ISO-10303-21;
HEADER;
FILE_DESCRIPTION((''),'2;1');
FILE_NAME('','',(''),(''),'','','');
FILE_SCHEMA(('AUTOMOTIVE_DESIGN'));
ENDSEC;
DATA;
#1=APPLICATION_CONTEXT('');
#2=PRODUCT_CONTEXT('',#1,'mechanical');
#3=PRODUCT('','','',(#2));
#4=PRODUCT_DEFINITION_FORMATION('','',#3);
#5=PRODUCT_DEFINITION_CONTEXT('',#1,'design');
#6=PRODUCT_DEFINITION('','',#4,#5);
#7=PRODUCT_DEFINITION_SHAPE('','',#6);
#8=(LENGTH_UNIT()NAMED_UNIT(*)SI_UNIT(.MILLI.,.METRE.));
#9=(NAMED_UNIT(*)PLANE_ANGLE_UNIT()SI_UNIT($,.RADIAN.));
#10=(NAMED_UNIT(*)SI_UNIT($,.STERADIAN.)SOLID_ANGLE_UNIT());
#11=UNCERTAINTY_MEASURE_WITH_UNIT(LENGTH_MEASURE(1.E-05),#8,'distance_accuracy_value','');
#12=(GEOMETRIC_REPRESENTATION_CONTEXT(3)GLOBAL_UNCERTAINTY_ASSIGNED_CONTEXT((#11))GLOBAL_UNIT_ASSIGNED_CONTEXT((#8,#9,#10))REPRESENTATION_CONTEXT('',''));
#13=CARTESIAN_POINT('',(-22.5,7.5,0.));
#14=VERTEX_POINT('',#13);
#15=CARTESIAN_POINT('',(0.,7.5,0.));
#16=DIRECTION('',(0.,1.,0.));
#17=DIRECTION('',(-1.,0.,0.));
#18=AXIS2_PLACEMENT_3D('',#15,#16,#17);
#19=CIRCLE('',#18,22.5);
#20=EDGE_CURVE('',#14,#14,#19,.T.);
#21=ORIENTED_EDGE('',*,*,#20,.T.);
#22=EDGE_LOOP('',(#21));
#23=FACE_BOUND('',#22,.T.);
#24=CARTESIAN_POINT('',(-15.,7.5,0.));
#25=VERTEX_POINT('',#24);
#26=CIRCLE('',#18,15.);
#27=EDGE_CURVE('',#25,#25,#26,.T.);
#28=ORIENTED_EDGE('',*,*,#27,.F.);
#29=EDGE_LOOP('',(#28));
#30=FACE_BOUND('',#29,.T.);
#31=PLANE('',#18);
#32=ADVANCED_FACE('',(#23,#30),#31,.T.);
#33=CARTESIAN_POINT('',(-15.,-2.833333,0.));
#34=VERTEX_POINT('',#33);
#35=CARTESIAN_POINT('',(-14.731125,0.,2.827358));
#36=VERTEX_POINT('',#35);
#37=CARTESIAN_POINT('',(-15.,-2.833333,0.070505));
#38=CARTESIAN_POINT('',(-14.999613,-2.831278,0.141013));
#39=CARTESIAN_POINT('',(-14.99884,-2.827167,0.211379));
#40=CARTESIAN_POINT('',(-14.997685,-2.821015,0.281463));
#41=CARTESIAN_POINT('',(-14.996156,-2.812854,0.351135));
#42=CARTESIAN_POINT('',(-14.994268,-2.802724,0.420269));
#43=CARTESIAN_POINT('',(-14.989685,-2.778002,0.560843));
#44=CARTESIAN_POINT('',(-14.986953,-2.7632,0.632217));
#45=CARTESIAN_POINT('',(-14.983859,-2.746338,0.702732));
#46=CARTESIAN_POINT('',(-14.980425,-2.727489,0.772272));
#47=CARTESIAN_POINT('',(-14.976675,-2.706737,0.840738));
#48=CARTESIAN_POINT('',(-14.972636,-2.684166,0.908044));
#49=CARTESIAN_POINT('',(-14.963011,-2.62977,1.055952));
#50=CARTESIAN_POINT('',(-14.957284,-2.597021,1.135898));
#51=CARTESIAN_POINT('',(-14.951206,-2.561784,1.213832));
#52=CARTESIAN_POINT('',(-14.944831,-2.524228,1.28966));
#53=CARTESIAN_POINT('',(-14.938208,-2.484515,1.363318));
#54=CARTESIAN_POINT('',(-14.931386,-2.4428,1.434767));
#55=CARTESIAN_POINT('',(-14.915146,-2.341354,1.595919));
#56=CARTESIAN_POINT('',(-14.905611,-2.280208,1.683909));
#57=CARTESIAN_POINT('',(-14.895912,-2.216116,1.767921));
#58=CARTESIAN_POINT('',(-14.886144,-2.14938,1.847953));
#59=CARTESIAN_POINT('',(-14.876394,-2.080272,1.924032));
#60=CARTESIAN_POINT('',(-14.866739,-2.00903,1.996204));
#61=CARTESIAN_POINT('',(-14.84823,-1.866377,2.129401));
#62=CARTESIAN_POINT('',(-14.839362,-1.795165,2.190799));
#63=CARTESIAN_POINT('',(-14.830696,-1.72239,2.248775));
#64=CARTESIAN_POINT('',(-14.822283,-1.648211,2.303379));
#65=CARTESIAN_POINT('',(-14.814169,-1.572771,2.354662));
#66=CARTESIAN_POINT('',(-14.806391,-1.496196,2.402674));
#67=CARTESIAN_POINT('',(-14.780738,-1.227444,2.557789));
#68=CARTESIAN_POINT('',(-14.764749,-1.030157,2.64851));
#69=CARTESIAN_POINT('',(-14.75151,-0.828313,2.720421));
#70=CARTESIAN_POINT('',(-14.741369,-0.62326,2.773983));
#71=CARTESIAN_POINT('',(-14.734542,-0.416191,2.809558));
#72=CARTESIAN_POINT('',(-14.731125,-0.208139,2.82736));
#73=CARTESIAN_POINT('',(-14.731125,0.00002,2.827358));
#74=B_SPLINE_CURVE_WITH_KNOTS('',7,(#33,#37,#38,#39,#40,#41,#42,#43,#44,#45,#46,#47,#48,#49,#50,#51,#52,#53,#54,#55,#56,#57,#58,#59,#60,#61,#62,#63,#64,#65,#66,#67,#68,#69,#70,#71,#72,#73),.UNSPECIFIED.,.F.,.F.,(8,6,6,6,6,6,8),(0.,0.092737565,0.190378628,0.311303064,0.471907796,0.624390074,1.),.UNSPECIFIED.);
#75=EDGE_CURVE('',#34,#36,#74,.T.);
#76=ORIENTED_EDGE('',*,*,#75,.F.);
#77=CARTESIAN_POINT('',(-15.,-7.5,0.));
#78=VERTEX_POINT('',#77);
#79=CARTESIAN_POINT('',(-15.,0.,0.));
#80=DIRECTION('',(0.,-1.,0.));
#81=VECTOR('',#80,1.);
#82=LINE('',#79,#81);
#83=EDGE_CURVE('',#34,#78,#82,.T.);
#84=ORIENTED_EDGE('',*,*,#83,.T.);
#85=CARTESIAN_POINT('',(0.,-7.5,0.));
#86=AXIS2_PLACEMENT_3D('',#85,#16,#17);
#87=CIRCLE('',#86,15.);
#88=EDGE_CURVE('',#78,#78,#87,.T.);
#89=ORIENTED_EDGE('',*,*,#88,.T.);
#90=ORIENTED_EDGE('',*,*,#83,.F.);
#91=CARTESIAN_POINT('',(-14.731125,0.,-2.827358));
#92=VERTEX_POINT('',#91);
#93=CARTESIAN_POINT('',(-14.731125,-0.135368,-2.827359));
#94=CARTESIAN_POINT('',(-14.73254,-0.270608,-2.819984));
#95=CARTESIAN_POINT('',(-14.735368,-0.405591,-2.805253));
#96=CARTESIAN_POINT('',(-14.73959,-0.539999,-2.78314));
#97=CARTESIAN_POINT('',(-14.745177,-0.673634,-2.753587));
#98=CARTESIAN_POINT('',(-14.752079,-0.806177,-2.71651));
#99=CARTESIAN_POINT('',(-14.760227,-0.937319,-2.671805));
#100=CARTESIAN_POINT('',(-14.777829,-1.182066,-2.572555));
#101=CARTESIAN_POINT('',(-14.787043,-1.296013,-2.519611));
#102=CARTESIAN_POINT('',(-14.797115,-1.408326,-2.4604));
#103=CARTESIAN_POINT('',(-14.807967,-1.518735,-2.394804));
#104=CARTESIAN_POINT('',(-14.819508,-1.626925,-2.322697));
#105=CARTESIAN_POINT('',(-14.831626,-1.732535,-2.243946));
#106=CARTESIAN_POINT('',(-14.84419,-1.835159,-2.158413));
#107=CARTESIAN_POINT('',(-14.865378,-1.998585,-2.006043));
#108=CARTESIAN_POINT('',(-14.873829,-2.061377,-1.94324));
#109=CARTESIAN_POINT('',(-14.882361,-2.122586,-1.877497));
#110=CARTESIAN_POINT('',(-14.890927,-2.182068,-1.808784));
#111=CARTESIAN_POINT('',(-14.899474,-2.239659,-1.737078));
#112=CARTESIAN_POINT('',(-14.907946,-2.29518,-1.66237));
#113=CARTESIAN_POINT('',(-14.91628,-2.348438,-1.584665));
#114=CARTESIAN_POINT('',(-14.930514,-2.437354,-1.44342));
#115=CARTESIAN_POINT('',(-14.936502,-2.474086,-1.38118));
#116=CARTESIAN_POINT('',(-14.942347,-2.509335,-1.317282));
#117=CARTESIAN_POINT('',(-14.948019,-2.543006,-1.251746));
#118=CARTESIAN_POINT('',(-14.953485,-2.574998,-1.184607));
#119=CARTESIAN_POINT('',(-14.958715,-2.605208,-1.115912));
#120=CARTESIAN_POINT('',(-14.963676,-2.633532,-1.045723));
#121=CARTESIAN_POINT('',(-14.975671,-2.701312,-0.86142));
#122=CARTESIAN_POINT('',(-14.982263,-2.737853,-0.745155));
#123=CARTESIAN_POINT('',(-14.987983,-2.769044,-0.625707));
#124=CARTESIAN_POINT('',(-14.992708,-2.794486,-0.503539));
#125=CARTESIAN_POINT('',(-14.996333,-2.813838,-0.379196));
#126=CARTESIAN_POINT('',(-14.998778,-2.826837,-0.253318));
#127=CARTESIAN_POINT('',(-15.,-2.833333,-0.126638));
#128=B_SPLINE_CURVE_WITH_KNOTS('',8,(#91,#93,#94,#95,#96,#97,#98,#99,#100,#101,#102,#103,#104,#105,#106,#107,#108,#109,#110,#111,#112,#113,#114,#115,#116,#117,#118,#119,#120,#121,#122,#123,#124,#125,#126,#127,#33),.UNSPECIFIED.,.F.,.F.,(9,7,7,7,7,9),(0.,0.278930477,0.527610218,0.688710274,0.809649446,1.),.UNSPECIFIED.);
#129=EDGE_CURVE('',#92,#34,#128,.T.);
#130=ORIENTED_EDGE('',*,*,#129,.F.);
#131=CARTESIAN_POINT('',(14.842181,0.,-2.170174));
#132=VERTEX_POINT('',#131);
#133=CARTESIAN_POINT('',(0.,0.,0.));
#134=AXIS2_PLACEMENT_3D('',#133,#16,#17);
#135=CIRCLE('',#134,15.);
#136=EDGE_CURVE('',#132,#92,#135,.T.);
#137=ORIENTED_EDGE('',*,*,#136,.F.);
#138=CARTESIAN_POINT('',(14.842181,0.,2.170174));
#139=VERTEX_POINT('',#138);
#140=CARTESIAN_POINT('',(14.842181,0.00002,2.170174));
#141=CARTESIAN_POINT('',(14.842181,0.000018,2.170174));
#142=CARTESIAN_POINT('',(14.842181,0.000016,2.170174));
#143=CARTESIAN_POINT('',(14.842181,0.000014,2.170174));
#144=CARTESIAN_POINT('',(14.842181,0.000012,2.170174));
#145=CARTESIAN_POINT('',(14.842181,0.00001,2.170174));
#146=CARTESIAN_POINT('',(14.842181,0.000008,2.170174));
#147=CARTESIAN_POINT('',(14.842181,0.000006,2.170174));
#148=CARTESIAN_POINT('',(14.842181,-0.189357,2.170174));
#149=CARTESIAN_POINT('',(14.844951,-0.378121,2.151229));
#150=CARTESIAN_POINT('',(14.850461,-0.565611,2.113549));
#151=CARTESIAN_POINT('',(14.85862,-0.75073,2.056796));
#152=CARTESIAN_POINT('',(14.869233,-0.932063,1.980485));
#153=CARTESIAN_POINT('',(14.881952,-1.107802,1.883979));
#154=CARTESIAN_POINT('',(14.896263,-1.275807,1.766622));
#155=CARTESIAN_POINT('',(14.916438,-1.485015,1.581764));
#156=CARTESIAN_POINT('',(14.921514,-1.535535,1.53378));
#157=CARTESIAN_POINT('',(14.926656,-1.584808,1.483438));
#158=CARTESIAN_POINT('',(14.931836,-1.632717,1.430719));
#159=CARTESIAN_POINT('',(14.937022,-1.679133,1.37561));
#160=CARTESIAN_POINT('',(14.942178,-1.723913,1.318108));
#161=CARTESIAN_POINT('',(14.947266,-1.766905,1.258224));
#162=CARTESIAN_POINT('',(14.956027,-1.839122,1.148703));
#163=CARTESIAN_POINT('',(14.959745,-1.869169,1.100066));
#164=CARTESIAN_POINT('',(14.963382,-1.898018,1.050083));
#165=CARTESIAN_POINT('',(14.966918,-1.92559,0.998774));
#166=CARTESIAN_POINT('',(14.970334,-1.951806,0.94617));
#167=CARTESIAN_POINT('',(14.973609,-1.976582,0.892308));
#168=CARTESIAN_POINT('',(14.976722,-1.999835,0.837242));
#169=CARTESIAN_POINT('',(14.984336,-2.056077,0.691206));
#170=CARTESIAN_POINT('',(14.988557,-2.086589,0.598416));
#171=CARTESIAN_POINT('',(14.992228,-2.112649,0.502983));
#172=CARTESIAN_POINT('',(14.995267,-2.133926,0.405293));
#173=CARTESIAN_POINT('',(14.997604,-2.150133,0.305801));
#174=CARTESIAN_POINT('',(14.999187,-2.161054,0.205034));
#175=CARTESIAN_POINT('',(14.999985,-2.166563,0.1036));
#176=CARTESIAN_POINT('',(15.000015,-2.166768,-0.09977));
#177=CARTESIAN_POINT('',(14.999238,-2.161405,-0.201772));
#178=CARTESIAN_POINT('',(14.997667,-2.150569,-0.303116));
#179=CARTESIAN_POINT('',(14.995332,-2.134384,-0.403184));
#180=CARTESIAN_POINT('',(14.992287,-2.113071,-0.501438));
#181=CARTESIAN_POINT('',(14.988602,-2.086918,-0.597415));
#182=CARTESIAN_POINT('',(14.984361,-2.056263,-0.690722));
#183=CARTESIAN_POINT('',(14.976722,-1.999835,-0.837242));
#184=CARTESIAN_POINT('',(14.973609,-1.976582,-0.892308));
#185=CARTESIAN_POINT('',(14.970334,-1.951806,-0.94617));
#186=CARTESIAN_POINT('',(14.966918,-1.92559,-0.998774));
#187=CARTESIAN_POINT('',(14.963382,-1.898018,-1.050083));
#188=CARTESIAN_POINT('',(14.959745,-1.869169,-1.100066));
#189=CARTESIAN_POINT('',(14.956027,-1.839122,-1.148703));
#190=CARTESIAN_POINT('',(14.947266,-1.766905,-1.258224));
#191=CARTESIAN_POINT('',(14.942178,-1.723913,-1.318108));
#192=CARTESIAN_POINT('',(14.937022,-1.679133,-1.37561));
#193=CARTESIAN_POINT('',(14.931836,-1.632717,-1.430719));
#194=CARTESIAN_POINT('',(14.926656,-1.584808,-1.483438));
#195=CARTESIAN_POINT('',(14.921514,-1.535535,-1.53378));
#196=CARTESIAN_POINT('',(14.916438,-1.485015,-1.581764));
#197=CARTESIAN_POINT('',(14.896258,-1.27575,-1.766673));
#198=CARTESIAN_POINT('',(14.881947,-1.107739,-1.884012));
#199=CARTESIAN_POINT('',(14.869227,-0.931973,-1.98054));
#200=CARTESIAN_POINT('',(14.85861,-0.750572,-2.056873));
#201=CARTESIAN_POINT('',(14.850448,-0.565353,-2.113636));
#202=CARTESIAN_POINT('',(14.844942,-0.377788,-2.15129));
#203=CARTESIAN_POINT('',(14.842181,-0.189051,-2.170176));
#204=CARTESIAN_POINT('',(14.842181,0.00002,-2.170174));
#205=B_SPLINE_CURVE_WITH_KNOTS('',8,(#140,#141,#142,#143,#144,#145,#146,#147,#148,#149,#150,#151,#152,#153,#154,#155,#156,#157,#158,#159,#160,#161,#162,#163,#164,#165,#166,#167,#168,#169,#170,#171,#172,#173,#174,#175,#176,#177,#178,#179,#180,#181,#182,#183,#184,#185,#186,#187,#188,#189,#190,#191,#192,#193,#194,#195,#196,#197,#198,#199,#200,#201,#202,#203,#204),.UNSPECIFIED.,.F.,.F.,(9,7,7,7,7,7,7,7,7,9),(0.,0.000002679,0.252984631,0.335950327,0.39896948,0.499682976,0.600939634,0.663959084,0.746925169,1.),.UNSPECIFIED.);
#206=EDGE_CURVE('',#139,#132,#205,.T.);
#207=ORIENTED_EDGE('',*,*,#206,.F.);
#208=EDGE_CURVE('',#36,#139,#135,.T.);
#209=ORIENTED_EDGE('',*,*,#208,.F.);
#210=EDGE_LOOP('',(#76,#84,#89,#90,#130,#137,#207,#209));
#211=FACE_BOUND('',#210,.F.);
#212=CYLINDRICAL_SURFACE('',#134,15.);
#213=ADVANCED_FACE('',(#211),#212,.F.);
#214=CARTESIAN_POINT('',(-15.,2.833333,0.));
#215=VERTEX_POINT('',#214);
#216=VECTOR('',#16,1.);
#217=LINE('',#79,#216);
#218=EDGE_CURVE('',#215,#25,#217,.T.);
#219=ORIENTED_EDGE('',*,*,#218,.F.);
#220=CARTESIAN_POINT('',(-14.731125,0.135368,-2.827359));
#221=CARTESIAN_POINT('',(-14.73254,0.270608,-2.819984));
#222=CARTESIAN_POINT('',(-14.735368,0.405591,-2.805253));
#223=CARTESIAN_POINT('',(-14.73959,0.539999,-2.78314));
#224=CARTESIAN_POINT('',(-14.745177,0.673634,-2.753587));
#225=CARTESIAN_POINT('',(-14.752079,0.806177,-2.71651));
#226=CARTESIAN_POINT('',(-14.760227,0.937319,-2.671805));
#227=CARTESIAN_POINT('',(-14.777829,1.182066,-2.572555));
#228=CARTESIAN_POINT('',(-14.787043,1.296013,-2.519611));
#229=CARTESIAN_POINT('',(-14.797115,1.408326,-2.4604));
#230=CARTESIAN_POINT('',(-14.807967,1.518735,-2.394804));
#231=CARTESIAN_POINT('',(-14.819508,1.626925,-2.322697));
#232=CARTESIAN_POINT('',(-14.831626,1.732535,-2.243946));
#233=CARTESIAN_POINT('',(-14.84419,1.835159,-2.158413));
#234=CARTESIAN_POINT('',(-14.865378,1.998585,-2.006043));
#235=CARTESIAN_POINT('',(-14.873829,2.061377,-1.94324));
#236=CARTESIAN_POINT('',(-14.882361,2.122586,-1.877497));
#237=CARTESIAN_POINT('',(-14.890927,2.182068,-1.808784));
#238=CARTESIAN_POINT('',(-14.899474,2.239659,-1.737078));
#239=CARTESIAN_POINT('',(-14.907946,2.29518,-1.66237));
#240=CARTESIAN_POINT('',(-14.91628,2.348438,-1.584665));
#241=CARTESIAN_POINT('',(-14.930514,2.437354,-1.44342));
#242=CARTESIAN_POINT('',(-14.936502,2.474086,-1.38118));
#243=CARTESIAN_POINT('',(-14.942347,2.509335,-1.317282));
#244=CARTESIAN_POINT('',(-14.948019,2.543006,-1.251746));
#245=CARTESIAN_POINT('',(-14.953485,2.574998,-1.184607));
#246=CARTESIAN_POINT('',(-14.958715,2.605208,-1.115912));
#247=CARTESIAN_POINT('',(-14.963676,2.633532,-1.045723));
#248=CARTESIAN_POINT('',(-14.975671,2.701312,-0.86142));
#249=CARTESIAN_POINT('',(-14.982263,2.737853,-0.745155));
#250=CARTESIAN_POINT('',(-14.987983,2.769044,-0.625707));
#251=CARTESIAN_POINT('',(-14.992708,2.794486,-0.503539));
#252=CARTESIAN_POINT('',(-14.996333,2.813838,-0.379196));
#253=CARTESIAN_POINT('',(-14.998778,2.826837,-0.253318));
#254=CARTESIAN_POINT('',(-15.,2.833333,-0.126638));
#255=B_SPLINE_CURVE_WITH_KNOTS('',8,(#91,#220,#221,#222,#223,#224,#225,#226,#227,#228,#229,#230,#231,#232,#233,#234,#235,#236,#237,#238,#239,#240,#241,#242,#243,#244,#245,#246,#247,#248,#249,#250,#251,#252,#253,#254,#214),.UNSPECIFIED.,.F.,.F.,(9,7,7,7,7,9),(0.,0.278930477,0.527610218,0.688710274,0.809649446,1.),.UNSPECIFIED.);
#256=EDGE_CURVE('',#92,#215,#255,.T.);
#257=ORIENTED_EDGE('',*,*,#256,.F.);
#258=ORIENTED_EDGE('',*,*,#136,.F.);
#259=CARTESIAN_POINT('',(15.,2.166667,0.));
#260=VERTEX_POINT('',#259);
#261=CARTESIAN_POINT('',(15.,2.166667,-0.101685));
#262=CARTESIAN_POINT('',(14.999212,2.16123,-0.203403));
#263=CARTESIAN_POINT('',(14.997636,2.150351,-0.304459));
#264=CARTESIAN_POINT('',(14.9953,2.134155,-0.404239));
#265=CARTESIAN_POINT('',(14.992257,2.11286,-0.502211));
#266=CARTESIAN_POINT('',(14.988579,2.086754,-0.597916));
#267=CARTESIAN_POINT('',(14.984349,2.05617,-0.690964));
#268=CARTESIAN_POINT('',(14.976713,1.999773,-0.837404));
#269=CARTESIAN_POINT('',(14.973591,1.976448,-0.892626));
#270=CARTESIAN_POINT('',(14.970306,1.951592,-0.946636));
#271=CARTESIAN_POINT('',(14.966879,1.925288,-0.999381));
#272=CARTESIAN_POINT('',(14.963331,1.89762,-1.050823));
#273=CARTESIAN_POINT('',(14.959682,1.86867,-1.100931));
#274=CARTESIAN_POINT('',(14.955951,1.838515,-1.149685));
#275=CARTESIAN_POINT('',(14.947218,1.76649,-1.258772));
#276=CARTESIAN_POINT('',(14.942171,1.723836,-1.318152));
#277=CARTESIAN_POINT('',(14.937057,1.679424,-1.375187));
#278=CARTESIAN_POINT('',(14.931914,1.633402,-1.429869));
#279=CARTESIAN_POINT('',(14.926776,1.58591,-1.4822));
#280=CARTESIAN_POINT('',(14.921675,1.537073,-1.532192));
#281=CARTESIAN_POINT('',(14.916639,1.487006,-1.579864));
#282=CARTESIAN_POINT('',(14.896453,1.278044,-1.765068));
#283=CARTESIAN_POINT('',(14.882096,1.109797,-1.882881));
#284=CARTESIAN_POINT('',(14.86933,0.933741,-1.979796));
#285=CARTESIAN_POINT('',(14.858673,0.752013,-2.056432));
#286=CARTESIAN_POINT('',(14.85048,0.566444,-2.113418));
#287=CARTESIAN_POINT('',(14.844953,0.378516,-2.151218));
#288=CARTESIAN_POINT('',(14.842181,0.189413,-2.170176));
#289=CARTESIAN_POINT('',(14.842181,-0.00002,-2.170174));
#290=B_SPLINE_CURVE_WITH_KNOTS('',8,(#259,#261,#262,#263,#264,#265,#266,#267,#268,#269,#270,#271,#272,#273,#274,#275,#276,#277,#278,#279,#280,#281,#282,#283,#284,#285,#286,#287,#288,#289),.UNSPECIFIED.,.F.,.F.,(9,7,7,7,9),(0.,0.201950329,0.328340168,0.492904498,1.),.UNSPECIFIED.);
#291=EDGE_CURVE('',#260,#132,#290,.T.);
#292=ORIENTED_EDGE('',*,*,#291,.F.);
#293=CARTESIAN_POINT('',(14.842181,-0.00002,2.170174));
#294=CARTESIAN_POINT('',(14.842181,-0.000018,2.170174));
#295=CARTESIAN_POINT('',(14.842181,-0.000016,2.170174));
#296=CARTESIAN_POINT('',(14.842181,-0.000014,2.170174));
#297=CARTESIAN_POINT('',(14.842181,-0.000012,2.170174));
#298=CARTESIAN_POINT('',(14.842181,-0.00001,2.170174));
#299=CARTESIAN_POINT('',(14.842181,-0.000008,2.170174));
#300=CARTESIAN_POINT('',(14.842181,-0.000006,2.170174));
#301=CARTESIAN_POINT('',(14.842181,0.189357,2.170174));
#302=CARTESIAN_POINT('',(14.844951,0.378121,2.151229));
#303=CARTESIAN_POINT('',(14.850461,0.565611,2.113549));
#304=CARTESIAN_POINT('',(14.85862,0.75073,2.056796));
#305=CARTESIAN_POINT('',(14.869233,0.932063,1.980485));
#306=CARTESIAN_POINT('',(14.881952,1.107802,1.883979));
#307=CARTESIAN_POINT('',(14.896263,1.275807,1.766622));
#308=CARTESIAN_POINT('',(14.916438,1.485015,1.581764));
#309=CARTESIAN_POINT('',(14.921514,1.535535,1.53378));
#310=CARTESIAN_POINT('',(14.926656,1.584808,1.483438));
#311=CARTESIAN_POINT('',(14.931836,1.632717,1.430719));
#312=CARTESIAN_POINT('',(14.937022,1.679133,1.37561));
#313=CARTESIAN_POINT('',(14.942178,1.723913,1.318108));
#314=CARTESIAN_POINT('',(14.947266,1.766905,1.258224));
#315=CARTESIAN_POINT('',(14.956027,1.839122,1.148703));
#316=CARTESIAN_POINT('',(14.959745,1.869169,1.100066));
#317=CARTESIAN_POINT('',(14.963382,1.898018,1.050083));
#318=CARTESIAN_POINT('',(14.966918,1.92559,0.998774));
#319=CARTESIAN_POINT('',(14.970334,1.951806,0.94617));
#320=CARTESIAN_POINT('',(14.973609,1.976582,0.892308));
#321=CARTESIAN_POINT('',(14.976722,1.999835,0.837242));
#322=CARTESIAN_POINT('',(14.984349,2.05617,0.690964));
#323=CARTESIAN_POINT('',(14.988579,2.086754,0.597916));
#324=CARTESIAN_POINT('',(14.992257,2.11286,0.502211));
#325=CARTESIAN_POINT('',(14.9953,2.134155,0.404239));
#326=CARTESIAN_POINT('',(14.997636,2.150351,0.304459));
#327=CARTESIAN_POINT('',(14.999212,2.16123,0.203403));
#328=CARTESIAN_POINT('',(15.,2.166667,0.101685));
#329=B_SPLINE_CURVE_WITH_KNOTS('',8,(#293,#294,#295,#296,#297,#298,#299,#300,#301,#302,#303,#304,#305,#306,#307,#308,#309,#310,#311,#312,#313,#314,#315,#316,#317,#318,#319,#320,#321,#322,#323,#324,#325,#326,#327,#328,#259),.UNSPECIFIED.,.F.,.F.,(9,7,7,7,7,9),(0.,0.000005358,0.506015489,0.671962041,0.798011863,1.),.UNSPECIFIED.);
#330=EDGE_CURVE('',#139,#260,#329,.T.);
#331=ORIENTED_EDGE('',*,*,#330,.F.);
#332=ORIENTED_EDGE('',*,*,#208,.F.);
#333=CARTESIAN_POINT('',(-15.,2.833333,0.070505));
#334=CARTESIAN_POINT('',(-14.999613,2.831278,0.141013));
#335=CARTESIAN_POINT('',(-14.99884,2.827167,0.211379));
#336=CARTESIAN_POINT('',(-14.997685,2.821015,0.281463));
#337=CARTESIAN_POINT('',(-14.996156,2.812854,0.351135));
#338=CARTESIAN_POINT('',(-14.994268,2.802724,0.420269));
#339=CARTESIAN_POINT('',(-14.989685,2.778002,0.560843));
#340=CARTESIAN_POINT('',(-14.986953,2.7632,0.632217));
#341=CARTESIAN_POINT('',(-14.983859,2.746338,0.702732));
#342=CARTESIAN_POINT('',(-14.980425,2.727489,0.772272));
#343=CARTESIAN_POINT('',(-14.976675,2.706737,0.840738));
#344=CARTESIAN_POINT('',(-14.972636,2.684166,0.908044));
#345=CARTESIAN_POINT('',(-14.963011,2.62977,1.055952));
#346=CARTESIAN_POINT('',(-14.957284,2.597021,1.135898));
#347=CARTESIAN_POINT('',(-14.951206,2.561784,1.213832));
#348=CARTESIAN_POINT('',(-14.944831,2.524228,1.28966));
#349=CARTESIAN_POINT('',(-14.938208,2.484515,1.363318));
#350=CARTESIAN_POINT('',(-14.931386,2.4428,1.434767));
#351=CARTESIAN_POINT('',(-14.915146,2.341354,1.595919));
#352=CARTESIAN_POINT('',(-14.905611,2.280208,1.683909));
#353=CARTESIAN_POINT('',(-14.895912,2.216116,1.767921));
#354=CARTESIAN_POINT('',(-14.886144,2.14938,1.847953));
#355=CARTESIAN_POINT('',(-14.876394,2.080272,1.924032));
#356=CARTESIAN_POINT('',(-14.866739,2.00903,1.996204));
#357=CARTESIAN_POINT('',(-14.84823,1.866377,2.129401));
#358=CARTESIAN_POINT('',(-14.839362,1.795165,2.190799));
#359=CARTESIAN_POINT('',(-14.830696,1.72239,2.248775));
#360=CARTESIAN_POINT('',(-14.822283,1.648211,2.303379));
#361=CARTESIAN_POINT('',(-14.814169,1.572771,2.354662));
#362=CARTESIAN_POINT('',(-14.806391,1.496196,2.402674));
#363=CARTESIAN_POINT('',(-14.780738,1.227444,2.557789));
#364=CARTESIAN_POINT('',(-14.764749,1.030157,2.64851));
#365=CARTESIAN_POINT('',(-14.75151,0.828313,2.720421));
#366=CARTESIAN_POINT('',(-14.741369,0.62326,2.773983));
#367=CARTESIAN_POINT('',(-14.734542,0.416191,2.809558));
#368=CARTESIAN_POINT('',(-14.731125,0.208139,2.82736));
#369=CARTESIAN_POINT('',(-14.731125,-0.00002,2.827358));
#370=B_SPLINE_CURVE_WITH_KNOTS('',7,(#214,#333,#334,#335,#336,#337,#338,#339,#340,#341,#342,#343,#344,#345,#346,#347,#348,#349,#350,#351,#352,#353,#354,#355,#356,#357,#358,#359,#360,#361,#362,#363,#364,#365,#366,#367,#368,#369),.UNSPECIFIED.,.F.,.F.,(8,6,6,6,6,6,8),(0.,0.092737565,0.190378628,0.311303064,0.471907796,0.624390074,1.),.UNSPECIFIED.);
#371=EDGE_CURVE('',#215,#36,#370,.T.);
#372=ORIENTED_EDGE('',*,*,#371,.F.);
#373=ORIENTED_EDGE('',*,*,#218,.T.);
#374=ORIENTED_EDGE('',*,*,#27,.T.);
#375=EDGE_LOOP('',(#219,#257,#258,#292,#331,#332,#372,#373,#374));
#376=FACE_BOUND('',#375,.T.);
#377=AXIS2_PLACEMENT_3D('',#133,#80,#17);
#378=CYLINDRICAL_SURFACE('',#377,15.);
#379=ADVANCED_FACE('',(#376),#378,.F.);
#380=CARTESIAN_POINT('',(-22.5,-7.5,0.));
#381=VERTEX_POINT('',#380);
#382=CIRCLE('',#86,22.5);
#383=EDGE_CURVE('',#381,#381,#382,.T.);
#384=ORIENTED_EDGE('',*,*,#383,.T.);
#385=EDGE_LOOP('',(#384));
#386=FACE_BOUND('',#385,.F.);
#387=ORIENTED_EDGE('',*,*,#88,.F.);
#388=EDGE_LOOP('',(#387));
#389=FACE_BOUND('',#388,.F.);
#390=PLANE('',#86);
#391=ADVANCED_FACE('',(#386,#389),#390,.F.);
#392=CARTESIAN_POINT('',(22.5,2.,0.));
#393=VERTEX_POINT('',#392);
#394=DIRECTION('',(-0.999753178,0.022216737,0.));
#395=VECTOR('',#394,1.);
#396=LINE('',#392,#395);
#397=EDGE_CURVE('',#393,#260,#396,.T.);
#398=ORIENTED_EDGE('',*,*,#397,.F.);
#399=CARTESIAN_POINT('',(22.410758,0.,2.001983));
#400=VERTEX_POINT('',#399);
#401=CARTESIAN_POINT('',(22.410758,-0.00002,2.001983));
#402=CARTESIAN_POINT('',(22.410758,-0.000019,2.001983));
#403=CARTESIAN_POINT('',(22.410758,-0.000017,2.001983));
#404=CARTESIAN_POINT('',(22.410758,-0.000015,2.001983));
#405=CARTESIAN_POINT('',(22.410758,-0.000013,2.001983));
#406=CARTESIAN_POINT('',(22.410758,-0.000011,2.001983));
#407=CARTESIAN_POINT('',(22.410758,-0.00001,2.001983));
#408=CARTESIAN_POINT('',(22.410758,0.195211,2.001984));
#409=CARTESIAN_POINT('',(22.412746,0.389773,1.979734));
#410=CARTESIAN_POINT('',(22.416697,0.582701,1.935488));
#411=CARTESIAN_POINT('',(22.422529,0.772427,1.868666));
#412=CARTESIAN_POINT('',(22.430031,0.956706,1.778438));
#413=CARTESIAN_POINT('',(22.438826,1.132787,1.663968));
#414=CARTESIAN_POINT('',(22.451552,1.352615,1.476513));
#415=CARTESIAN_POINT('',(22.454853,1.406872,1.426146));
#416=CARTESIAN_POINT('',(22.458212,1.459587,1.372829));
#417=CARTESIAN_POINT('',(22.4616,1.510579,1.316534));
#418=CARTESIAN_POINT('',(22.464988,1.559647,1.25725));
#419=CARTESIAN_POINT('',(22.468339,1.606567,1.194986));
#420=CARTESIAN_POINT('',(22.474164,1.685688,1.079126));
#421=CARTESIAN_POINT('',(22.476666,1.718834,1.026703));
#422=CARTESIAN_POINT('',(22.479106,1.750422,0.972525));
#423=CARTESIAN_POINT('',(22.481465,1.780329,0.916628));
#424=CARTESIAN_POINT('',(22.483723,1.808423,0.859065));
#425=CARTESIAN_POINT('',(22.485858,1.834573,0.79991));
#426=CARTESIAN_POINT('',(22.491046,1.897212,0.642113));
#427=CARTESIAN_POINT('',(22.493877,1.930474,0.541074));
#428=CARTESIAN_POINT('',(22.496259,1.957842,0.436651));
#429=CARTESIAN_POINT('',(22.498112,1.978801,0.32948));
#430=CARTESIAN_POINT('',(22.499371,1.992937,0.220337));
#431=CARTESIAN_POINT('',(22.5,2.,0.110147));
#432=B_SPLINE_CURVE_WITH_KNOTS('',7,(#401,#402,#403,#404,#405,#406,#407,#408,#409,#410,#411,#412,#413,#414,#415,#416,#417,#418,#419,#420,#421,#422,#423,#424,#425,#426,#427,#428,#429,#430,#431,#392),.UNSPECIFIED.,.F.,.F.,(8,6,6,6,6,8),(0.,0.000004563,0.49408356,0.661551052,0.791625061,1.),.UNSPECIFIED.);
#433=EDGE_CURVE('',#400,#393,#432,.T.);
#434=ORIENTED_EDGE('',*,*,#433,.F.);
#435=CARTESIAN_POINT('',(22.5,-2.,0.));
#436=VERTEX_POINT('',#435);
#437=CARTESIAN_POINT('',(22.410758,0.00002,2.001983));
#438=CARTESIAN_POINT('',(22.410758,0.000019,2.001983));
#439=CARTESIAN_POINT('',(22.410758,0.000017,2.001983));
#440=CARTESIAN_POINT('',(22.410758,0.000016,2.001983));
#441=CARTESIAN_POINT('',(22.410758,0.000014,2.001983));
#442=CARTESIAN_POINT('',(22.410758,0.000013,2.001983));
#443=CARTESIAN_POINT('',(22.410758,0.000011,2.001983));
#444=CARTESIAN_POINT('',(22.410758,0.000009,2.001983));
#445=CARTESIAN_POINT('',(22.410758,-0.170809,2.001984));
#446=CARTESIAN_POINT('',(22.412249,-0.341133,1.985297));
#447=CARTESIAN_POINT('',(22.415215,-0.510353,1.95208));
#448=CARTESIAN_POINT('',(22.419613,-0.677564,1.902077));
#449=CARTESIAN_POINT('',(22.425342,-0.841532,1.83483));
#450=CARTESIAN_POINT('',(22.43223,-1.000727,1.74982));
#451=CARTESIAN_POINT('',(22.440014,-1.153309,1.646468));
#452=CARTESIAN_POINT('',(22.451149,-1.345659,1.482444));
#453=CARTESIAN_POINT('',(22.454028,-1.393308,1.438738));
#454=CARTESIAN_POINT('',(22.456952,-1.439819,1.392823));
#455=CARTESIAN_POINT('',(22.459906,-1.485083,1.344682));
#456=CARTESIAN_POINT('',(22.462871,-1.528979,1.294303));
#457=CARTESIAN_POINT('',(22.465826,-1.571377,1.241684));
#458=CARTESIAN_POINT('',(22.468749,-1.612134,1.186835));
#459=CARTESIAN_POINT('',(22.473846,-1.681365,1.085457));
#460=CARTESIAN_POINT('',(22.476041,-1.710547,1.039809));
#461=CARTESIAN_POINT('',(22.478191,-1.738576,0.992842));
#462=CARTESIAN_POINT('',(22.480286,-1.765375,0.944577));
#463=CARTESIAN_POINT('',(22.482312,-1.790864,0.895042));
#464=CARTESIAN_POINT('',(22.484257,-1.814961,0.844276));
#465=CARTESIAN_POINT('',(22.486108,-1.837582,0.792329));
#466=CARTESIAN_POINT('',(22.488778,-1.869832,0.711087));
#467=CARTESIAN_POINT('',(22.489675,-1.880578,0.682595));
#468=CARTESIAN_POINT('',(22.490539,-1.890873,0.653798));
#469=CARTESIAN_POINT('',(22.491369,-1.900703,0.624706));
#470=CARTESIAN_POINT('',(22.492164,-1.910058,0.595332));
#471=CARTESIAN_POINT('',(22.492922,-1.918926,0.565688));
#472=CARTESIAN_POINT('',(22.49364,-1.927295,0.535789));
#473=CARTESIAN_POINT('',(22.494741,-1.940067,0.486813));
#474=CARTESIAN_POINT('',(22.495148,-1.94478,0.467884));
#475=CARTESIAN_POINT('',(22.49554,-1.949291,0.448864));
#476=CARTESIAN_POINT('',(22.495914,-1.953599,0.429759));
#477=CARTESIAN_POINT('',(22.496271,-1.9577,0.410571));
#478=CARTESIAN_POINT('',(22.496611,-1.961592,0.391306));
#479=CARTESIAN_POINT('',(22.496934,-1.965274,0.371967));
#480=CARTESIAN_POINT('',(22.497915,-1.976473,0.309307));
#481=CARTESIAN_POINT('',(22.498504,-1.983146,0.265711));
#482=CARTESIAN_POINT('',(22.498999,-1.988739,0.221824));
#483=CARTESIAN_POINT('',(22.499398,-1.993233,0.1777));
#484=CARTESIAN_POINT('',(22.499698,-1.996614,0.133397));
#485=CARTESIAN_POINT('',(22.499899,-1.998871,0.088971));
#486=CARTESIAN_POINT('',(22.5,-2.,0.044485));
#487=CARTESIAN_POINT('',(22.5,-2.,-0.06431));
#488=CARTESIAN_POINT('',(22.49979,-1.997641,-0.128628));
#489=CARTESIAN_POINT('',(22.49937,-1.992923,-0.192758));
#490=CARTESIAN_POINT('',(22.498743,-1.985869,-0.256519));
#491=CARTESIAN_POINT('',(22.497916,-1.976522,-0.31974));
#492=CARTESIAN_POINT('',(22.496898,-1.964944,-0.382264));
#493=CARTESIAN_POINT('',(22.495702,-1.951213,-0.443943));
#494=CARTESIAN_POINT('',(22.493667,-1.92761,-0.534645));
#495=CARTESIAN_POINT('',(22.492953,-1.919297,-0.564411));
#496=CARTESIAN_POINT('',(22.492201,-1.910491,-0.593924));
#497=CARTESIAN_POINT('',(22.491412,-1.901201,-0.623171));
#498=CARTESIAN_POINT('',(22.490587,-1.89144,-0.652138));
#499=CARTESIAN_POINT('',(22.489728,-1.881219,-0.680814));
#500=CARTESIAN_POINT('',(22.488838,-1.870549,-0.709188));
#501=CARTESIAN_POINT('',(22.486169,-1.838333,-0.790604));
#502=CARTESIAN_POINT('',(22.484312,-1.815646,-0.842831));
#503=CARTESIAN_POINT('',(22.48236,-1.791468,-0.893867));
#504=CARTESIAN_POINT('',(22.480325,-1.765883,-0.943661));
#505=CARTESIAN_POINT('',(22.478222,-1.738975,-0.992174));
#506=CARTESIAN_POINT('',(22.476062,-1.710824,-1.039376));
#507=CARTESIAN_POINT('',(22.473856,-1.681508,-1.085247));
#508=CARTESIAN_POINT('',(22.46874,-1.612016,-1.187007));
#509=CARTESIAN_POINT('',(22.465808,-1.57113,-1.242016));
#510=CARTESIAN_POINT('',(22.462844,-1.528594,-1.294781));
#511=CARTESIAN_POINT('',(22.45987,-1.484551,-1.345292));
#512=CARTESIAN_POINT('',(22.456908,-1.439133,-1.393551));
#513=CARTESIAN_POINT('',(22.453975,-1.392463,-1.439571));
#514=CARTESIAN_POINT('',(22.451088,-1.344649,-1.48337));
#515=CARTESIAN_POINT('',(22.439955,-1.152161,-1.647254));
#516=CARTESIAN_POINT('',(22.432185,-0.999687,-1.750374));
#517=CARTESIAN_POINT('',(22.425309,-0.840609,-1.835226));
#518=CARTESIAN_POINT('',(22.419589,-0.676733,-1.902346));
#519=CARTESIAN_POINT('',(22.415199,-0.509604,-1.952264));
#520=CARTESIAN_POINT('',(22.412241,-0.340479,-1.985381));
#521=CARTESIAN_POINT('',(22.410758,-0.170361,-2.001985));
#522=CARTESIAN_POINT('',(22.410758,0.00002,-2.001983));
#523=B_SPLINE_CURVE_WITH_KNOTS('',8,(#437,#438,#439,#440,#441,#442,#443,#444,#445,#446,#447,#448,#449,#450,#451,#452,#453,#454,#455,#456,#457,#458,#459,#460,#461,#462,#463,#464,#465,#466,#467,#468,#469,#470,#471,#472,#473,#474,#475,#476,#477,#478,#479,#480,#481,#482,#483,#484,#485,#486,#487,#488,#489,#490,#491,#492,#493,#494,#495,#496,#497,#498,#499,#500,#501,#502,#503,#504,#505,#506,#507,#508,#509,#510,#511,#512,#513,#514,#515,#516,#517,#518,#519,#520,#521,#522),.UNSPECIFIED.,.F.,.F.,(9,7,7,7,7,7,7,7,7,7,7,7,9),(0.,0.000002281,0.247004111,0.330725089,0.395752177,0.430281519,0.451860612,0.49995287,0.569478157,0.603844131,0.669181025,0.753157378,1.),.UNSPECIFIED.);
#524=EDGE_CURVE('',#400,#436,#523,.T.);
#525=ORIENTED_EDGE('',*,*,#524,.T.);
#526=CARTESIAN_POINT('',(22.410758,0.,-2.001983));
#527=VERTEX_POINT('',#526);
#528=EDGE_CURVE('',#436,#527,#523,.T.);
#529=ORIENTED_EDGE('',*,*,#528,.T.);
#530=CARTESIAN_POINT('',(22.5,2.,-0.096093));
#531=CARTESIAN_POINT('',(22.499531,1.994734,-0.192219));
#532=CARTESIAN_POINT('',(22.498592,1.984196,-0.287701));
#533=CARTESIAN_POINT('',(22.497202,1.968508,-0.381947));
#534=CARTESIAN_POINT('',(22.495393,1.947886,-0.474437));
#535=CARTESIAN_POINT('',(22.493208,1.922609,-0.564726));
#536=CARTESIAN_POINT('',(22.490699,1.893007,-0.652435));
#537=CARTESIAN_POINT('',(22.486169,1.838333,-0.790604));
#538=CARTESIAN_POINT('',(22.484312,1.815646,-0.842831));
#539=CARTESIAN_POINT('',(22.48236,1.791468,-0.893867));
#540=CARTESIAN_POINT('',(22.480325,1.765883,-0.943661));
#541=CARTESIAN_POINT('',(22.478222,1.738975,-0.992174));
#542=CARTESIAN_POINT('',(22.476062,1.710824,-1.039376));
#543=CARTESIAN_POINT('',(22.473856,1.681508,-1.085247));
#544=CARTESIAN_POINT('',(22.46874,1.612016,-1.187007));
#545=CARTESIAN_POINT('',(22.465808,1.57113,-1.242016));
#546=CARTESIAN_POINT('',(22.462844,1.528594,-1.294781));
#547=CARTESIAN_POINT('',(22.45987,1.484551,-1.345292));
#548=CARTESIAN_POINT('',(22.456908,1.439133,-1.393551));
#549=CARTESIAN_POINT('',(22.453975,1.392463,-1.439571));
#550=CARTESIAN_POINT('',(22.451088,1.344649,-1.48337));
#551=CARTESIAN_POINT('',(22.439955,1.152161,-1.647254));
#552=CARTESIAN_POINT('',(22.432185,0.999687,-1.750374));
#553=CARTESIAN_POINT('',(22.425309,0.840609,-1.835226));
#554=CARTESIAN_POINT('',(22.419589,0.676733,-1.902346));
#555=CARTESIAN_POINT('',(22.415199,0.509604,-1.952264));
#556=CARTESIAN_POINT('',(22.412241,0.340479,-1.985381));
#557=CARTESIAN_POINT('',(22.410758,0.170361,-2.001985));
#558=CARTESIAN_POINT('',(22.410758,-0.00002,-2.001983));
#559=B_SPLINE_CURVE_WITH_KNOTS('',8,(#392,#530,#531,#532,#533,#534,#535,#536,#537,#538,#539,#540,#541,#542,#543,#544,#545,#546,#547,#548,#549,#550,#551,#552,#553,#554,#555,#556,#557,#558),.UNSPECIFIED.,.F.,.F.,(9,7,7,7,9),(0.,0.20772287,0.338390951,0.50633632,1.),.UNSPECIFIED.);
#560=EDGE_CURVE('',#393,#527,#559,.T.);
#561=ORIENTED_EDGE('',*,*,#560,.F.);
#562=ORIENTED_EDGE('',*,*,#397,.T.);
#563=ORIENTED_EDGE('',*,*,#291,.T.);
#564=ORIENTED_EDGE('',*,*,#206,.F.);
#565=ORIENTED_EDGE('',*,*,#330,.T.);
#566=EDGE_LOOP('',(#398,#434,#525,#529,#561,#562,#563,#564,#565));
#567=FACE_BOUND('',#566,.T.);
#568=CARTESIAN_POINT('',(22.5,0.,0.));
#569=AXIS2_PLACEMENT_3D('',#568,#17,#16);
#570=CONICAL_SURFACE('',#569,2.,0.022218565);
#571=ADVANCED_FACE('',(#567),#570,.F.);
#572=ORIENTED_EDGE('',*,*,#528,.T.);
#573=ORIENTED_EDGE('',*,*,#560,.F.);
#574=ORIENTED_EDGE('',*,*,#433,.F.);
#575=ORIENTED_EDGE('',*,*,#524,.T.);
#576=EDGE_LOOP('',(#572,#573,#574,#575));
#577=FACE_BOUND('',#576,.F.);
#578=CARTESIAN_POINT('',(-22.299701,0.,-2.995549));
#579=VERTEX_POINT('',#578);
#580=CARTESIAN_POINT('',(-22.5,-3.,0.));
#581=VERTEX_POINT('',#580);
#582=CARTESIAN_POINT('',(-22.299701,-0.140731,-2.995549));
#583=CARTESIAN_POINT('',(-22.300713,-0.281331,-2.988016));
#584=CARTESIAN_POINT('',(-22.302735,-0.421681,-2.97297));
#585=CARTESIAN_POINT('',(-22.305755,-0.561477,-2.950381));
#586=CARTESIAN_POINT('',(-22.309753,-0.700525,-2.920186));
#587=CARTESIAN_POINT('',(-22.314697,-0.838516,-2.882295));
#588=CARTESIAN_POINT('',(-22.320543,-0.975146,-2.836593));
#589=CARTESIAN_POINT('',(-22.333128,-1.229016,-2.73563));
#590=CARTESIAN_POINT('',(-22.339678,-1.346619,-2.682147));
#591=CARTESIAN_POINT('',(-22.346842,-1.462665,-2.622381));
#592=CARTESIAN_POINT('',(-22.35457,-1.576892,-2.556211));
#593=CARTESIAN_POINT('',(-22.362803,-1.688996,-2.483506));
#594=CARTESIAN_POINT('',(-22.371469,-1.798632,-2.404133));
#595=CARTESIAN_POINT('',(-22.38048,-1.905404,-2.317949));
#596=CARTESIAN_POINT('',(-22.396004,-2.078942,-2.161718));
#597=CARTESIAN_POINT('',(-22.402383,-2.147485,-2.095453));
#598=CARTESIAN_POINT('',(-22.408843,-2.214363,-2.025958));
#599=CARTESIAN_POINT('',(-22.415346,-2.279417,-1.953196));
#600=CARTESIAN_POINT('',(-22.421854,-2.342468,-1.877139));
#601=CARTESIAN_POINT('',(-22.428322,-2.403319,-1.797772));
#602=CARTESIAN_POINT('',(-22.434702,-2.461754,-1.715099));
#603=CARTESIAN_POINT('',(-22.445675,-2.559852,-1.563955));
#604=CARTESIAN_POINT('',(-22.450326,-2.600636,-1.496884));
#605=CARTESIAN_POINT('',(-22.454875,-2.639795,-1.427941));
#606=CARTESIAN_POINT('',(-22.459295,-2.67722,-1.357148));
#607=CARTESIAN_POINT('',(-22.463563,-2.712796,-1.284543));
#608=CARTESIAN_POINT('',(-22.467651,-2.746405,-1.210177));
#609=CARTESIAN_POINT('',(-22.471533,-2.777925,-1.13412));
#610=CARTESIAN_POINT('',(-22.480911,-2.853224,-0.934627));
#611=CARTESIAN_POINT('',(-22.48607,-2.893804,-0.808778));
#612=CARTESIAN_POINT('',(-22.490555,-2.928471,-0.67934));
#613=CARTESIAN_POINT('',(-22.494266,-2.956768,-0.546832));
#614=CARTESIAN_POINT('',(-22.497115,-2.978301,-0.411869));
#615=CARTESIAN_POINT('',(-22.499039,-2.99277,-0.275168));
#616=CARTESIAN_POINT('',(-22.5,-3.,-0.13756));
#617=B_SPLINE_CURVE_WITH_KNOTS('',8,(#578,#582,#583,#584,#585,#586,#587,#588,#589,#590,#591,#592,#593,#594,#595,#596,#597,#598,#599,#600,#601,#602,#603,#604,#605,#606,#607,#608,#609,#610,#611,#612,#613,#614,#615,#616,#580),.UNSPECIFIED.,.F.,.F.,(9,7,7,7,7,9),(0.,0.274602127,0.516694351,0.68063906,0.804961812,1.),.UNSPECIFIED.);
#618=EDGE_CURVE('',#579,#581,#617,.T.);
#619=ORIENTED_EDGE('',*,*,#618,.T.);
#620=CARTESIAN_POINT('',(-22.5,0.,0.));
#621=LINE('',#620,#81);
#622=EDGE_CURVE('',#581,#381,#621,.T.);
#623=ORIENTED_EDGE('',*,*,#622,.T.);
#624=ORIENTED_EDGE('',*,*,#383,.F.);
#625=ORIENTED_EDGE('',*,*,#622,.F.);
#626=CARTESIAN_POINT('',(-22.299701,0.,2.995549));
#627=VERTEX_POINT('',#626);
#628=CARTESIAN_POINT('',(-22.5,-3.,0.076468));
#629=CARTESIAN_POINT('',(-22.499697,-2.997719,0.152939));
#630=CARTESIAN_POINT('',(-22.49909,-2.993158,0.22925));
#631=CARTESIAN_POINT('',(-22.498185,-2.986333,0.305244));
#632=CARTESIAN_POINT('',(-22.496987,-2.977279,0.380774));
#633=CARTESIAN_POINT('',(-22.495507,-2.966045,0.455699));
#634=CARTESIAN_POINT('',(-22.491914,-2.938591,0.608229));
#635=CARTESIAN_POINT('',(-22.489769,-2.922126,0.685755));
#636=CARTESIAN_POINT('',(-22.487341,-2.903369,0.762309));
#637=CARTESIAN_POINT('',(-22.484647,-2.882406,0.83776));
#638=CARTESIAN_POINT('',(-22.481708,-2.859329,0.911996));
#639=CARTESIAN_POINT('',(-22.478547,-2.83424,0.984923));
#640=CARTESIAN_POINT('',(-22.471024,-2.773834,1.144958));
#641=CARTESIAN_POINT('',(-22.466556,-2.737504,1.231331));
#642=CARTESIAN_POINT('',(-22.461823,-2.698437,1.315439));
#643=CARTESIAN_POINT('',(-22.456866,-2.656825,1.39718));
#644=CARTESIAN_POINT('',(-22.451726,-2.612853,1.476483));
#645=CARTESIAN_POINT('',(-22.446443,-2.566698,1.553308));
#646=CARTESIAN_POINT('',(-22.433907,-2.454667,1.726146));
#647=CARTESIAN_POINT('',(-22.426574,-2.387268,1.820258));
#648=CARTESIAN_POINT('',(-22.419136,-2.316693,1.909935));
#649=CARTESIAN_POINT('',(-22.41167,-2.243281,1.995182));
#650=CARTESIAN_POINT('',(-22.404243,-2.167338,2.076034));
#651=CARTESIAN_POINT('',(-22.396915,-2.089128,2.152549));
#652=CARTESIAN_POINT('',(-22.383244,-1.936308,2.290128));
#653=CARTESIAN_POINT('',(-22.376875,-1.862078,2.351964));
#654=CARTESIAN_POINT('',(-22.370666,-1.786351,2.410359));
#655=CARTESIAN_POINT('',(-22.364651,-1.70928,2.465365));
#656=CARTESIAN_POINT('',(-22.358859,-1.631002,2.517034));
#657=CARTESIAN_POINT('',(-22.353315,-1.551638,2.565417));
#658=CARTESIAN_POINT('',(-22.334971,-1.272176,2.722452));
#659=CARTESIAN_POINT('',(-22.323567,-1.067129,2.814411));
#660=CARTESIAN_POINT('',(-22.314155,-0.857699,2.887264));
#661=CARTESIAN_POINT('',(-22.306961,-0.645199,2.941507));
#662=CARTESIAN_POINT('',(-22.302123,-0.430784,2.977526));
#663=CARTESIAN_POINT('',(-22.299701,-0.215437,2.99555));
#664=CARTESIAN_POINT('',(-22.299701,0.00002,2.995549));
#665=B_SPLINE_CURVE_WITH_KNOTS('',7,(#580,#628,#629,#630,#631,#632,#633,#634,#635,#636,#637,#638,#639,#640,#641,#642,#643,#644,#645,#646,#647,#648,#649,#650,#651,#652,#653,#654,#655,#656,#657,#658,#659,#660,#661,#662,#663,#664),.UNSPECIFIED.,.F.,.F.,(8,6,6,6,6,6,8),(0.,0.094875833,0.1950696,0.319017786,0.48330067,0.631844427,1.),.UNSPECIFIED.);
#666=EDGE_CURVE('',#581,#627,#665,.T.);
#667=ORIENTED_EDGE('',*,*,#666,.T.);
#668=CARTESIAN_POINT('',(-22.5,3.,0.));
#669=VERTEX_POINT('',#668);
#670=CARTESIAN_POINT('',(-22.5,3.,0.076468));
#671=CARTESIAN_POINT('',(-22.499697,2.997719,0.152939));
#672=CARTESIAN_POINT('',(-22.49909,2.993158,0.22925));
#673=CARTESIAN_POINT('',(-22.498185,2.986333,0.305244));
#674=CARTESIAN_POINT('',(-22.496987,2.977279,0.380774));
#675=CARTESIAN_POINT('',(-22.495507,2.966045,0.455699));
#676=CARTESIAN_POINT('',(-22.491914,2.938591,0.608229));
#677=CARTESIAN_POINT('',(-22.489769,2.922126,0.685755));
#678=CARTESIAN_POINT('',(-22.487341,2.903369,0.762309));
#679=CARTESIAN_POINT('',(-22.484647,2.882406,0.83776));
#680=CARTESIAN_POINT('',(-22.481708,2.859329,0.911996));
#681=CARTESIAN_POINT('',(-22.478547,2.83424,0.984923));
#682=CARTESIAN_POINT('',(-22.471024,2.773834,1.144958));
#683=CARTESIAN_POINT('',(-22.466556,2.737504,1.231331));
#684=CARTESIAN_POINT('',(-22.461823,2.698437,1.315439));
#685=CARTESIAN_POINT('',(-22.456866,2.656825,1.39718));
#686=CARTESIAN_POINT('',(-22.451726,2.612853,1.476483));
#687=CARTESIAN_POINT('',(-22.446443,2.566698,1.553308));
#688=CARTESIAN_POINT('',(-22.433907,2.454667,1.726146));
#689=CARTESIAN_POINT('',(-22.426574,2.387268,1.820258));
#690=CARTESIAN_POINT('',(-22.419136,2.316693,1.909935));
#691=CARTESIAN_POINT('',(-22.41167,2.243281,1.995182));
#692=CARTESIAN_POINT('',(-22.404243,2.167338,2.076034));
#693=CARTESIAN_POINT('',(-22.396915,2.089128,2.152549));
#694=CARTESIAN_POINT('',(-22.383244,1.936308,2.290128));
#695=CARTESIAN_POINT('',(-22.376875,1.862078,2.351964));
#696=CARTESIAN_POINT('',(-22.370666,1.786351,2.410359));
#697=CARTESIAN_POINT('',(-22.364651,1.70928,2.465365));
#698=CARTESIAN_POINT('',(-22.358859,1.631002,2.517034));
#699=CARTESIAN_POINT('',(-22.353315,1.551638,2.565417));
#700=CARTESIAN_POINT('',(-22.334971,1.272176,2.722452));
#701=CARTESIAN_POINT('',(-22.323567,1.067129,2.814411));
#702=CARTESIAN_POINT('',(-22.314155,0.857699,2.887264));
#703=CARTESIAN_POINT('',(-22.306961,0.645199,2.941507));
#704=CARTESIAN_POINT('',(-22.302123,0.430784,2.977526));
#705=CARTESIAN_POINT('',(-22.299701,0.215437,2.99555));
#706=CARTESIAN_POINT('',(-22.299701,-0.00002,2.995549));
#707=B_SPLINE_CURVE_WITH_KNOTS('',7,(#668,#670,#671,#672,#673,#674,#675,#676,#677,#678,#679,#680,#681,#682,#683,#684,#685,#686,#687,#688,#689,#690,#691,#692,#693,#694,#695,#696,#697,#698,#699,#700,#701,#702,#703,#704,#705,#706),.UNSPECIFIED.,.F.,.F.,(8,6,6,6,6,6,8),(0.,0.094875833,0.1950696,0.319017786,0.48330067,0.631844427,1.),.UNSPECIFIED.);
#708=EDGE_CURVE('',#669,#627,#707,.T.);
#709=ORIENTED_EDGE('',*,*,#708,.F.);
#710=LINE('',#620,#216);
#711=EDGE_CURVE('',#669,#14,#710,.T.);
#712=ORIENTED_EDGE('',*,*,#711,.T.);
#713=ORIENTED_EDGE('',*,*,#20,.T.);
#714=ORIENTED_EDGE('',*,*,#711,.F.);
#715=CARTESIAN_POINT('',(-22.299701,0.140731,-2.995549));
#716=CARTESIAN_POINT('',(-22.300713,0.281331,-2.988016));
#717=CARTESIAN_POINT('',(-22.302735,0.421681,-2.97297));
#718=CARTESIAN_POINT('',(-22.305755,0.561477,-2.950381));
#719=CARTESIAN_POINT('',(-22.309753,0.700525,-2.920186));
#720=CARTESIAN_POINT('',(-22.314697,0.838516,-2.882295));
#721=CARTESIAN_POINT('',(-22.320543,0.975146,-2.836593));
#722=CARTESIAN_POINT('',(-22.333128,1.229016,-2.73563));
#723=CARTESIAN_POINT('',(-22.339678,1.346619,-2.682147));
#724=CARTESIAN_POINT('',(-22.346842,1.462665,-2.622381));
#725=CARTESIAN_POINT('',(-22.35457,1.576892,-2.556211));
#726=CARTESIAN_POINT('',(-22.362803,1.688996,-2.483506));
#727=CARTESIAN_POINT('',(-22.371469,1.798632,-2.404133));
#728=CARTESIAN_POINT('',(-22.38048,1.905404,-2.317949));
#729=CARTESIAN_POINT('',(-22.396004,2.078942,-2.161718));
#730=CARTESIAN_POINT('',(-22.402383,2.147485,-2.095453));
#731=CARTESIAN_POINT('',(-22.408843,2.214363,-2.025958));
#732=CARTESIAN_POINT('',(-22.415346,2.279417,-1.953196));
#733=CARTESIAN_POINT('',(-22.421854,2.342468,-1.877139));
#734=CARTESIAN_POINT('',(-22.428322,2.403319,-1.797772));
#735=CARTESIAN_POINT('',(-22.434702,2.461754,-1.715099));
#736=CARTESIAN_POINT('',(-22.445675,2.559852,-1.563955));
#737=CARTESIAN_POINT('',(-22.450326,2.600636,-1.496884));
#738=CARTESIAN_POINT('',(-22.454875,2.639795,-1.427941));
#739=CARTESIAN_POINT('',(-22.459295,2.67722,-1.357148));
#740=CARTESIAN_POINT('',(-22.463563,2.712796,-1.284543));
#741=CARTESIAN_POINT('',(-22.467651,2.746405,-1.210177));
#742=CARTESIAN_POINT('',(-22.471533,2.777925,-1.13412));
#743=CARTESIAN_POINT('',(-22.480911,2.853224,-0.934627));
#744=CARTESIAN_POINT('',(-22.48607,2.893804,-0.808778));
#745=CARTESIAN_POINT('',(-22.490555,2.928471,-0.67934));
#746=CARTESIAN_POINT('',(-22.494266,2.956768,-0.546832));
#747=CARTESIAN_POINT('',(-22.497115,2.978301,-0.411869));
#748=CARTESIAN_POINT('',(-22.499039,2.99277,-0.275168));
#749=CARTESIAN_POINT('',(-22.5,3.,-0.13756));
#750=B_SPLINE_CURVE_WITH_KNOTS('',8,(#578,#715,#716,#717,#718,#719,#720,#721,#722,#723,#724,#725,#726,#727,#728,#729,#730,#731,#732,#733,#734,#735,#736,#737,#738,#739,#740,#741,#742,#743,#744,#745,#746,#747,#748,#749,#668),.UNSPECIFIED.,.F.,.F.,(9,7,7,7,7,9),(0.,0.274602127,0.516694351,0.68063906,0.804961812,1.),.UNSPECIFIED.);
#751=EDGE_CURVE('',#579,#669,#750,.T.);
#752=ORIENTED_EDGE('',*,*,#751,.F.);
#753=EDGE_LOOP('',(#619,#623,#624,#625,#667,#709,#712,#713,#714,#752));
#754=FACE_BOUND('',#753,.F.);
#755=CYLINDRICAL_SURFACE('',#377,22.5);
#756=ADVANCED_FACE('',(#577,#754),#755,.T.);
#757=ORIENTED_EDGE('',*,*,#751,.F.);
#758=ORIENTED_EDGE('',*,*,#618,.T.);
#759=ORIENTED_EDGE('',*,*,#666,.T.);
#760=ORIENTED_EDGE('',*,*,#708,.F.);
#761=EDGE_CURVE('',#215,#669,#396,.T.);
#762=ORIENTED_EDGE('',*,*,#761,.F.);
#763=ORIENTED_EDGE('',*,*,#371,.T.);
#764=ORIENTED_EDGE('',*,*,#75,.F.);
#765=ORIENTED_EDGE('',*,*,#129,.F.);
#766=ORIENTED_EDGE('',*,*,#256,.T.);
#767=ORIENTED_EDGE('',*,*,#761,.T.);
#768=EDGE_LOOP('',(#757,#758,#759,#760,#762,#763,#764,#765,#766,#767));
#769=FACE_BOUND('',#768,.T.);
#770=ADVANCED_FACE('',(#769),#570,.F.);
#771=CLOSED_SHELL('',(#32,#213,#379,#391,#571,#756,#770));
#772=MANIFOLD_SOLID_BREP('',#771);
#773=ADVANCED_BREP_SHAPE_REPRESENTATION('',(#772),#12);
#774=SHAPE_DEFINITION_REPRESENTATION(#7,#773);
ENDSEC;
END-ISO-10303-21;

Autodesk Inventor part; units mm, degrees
ref_plane "YZ Plane" through (0, 0, 0) normal (1, 0, 0) x (0, 1, 0)
ref_plane "XZ Plane" through (0, 0, 0) normal (0, 1, 0) x (-1, 0, 0)
ref_plane "XY Plane" through (0, 0, 0) normal (0, 0, 1) x (1, 0, 0)
sketch "Sketch1" plane through (0, 0, 0) normal (0, 1, 0) x (-1, 0, 0)
  circle A0 centre (0, 0) radius 22.5
  circle A1 centre (0, 0) radius 15
  dimension "d0" = 45
  dimension "d1" = 30
extrude "Extrusion1" add sketch "Sketch1" along normal mid plane 15
sketch "Sketch2" plane through (0, 0, 0) normal (0, 0, 1) x (1, 0, 0)
  line L0 (-22.5, -7.5) -> (-22.5, 7.5) projected
  line L1 (-22.5, 0) -> (22.5, 0)
  line L2 (22.5, -7.5) -> (22.5, 7.5) projected
  line L3 (-22.5, 0) -> (-22.5, 3)
  line L4 (22.5, 0) -> (22.5, 2)
  line L5 (22.5, 2) -> (-22.5, 3)
  point P0 (0, 0)
  dimension "d4" = 3
  dimension "d5" = 2
revolve "Revolution1" cut sketch "Sketch2" angle 360 about axis through (-22.5, 0, 0) along (1, 0, 0)
properties part number "taper pin"
